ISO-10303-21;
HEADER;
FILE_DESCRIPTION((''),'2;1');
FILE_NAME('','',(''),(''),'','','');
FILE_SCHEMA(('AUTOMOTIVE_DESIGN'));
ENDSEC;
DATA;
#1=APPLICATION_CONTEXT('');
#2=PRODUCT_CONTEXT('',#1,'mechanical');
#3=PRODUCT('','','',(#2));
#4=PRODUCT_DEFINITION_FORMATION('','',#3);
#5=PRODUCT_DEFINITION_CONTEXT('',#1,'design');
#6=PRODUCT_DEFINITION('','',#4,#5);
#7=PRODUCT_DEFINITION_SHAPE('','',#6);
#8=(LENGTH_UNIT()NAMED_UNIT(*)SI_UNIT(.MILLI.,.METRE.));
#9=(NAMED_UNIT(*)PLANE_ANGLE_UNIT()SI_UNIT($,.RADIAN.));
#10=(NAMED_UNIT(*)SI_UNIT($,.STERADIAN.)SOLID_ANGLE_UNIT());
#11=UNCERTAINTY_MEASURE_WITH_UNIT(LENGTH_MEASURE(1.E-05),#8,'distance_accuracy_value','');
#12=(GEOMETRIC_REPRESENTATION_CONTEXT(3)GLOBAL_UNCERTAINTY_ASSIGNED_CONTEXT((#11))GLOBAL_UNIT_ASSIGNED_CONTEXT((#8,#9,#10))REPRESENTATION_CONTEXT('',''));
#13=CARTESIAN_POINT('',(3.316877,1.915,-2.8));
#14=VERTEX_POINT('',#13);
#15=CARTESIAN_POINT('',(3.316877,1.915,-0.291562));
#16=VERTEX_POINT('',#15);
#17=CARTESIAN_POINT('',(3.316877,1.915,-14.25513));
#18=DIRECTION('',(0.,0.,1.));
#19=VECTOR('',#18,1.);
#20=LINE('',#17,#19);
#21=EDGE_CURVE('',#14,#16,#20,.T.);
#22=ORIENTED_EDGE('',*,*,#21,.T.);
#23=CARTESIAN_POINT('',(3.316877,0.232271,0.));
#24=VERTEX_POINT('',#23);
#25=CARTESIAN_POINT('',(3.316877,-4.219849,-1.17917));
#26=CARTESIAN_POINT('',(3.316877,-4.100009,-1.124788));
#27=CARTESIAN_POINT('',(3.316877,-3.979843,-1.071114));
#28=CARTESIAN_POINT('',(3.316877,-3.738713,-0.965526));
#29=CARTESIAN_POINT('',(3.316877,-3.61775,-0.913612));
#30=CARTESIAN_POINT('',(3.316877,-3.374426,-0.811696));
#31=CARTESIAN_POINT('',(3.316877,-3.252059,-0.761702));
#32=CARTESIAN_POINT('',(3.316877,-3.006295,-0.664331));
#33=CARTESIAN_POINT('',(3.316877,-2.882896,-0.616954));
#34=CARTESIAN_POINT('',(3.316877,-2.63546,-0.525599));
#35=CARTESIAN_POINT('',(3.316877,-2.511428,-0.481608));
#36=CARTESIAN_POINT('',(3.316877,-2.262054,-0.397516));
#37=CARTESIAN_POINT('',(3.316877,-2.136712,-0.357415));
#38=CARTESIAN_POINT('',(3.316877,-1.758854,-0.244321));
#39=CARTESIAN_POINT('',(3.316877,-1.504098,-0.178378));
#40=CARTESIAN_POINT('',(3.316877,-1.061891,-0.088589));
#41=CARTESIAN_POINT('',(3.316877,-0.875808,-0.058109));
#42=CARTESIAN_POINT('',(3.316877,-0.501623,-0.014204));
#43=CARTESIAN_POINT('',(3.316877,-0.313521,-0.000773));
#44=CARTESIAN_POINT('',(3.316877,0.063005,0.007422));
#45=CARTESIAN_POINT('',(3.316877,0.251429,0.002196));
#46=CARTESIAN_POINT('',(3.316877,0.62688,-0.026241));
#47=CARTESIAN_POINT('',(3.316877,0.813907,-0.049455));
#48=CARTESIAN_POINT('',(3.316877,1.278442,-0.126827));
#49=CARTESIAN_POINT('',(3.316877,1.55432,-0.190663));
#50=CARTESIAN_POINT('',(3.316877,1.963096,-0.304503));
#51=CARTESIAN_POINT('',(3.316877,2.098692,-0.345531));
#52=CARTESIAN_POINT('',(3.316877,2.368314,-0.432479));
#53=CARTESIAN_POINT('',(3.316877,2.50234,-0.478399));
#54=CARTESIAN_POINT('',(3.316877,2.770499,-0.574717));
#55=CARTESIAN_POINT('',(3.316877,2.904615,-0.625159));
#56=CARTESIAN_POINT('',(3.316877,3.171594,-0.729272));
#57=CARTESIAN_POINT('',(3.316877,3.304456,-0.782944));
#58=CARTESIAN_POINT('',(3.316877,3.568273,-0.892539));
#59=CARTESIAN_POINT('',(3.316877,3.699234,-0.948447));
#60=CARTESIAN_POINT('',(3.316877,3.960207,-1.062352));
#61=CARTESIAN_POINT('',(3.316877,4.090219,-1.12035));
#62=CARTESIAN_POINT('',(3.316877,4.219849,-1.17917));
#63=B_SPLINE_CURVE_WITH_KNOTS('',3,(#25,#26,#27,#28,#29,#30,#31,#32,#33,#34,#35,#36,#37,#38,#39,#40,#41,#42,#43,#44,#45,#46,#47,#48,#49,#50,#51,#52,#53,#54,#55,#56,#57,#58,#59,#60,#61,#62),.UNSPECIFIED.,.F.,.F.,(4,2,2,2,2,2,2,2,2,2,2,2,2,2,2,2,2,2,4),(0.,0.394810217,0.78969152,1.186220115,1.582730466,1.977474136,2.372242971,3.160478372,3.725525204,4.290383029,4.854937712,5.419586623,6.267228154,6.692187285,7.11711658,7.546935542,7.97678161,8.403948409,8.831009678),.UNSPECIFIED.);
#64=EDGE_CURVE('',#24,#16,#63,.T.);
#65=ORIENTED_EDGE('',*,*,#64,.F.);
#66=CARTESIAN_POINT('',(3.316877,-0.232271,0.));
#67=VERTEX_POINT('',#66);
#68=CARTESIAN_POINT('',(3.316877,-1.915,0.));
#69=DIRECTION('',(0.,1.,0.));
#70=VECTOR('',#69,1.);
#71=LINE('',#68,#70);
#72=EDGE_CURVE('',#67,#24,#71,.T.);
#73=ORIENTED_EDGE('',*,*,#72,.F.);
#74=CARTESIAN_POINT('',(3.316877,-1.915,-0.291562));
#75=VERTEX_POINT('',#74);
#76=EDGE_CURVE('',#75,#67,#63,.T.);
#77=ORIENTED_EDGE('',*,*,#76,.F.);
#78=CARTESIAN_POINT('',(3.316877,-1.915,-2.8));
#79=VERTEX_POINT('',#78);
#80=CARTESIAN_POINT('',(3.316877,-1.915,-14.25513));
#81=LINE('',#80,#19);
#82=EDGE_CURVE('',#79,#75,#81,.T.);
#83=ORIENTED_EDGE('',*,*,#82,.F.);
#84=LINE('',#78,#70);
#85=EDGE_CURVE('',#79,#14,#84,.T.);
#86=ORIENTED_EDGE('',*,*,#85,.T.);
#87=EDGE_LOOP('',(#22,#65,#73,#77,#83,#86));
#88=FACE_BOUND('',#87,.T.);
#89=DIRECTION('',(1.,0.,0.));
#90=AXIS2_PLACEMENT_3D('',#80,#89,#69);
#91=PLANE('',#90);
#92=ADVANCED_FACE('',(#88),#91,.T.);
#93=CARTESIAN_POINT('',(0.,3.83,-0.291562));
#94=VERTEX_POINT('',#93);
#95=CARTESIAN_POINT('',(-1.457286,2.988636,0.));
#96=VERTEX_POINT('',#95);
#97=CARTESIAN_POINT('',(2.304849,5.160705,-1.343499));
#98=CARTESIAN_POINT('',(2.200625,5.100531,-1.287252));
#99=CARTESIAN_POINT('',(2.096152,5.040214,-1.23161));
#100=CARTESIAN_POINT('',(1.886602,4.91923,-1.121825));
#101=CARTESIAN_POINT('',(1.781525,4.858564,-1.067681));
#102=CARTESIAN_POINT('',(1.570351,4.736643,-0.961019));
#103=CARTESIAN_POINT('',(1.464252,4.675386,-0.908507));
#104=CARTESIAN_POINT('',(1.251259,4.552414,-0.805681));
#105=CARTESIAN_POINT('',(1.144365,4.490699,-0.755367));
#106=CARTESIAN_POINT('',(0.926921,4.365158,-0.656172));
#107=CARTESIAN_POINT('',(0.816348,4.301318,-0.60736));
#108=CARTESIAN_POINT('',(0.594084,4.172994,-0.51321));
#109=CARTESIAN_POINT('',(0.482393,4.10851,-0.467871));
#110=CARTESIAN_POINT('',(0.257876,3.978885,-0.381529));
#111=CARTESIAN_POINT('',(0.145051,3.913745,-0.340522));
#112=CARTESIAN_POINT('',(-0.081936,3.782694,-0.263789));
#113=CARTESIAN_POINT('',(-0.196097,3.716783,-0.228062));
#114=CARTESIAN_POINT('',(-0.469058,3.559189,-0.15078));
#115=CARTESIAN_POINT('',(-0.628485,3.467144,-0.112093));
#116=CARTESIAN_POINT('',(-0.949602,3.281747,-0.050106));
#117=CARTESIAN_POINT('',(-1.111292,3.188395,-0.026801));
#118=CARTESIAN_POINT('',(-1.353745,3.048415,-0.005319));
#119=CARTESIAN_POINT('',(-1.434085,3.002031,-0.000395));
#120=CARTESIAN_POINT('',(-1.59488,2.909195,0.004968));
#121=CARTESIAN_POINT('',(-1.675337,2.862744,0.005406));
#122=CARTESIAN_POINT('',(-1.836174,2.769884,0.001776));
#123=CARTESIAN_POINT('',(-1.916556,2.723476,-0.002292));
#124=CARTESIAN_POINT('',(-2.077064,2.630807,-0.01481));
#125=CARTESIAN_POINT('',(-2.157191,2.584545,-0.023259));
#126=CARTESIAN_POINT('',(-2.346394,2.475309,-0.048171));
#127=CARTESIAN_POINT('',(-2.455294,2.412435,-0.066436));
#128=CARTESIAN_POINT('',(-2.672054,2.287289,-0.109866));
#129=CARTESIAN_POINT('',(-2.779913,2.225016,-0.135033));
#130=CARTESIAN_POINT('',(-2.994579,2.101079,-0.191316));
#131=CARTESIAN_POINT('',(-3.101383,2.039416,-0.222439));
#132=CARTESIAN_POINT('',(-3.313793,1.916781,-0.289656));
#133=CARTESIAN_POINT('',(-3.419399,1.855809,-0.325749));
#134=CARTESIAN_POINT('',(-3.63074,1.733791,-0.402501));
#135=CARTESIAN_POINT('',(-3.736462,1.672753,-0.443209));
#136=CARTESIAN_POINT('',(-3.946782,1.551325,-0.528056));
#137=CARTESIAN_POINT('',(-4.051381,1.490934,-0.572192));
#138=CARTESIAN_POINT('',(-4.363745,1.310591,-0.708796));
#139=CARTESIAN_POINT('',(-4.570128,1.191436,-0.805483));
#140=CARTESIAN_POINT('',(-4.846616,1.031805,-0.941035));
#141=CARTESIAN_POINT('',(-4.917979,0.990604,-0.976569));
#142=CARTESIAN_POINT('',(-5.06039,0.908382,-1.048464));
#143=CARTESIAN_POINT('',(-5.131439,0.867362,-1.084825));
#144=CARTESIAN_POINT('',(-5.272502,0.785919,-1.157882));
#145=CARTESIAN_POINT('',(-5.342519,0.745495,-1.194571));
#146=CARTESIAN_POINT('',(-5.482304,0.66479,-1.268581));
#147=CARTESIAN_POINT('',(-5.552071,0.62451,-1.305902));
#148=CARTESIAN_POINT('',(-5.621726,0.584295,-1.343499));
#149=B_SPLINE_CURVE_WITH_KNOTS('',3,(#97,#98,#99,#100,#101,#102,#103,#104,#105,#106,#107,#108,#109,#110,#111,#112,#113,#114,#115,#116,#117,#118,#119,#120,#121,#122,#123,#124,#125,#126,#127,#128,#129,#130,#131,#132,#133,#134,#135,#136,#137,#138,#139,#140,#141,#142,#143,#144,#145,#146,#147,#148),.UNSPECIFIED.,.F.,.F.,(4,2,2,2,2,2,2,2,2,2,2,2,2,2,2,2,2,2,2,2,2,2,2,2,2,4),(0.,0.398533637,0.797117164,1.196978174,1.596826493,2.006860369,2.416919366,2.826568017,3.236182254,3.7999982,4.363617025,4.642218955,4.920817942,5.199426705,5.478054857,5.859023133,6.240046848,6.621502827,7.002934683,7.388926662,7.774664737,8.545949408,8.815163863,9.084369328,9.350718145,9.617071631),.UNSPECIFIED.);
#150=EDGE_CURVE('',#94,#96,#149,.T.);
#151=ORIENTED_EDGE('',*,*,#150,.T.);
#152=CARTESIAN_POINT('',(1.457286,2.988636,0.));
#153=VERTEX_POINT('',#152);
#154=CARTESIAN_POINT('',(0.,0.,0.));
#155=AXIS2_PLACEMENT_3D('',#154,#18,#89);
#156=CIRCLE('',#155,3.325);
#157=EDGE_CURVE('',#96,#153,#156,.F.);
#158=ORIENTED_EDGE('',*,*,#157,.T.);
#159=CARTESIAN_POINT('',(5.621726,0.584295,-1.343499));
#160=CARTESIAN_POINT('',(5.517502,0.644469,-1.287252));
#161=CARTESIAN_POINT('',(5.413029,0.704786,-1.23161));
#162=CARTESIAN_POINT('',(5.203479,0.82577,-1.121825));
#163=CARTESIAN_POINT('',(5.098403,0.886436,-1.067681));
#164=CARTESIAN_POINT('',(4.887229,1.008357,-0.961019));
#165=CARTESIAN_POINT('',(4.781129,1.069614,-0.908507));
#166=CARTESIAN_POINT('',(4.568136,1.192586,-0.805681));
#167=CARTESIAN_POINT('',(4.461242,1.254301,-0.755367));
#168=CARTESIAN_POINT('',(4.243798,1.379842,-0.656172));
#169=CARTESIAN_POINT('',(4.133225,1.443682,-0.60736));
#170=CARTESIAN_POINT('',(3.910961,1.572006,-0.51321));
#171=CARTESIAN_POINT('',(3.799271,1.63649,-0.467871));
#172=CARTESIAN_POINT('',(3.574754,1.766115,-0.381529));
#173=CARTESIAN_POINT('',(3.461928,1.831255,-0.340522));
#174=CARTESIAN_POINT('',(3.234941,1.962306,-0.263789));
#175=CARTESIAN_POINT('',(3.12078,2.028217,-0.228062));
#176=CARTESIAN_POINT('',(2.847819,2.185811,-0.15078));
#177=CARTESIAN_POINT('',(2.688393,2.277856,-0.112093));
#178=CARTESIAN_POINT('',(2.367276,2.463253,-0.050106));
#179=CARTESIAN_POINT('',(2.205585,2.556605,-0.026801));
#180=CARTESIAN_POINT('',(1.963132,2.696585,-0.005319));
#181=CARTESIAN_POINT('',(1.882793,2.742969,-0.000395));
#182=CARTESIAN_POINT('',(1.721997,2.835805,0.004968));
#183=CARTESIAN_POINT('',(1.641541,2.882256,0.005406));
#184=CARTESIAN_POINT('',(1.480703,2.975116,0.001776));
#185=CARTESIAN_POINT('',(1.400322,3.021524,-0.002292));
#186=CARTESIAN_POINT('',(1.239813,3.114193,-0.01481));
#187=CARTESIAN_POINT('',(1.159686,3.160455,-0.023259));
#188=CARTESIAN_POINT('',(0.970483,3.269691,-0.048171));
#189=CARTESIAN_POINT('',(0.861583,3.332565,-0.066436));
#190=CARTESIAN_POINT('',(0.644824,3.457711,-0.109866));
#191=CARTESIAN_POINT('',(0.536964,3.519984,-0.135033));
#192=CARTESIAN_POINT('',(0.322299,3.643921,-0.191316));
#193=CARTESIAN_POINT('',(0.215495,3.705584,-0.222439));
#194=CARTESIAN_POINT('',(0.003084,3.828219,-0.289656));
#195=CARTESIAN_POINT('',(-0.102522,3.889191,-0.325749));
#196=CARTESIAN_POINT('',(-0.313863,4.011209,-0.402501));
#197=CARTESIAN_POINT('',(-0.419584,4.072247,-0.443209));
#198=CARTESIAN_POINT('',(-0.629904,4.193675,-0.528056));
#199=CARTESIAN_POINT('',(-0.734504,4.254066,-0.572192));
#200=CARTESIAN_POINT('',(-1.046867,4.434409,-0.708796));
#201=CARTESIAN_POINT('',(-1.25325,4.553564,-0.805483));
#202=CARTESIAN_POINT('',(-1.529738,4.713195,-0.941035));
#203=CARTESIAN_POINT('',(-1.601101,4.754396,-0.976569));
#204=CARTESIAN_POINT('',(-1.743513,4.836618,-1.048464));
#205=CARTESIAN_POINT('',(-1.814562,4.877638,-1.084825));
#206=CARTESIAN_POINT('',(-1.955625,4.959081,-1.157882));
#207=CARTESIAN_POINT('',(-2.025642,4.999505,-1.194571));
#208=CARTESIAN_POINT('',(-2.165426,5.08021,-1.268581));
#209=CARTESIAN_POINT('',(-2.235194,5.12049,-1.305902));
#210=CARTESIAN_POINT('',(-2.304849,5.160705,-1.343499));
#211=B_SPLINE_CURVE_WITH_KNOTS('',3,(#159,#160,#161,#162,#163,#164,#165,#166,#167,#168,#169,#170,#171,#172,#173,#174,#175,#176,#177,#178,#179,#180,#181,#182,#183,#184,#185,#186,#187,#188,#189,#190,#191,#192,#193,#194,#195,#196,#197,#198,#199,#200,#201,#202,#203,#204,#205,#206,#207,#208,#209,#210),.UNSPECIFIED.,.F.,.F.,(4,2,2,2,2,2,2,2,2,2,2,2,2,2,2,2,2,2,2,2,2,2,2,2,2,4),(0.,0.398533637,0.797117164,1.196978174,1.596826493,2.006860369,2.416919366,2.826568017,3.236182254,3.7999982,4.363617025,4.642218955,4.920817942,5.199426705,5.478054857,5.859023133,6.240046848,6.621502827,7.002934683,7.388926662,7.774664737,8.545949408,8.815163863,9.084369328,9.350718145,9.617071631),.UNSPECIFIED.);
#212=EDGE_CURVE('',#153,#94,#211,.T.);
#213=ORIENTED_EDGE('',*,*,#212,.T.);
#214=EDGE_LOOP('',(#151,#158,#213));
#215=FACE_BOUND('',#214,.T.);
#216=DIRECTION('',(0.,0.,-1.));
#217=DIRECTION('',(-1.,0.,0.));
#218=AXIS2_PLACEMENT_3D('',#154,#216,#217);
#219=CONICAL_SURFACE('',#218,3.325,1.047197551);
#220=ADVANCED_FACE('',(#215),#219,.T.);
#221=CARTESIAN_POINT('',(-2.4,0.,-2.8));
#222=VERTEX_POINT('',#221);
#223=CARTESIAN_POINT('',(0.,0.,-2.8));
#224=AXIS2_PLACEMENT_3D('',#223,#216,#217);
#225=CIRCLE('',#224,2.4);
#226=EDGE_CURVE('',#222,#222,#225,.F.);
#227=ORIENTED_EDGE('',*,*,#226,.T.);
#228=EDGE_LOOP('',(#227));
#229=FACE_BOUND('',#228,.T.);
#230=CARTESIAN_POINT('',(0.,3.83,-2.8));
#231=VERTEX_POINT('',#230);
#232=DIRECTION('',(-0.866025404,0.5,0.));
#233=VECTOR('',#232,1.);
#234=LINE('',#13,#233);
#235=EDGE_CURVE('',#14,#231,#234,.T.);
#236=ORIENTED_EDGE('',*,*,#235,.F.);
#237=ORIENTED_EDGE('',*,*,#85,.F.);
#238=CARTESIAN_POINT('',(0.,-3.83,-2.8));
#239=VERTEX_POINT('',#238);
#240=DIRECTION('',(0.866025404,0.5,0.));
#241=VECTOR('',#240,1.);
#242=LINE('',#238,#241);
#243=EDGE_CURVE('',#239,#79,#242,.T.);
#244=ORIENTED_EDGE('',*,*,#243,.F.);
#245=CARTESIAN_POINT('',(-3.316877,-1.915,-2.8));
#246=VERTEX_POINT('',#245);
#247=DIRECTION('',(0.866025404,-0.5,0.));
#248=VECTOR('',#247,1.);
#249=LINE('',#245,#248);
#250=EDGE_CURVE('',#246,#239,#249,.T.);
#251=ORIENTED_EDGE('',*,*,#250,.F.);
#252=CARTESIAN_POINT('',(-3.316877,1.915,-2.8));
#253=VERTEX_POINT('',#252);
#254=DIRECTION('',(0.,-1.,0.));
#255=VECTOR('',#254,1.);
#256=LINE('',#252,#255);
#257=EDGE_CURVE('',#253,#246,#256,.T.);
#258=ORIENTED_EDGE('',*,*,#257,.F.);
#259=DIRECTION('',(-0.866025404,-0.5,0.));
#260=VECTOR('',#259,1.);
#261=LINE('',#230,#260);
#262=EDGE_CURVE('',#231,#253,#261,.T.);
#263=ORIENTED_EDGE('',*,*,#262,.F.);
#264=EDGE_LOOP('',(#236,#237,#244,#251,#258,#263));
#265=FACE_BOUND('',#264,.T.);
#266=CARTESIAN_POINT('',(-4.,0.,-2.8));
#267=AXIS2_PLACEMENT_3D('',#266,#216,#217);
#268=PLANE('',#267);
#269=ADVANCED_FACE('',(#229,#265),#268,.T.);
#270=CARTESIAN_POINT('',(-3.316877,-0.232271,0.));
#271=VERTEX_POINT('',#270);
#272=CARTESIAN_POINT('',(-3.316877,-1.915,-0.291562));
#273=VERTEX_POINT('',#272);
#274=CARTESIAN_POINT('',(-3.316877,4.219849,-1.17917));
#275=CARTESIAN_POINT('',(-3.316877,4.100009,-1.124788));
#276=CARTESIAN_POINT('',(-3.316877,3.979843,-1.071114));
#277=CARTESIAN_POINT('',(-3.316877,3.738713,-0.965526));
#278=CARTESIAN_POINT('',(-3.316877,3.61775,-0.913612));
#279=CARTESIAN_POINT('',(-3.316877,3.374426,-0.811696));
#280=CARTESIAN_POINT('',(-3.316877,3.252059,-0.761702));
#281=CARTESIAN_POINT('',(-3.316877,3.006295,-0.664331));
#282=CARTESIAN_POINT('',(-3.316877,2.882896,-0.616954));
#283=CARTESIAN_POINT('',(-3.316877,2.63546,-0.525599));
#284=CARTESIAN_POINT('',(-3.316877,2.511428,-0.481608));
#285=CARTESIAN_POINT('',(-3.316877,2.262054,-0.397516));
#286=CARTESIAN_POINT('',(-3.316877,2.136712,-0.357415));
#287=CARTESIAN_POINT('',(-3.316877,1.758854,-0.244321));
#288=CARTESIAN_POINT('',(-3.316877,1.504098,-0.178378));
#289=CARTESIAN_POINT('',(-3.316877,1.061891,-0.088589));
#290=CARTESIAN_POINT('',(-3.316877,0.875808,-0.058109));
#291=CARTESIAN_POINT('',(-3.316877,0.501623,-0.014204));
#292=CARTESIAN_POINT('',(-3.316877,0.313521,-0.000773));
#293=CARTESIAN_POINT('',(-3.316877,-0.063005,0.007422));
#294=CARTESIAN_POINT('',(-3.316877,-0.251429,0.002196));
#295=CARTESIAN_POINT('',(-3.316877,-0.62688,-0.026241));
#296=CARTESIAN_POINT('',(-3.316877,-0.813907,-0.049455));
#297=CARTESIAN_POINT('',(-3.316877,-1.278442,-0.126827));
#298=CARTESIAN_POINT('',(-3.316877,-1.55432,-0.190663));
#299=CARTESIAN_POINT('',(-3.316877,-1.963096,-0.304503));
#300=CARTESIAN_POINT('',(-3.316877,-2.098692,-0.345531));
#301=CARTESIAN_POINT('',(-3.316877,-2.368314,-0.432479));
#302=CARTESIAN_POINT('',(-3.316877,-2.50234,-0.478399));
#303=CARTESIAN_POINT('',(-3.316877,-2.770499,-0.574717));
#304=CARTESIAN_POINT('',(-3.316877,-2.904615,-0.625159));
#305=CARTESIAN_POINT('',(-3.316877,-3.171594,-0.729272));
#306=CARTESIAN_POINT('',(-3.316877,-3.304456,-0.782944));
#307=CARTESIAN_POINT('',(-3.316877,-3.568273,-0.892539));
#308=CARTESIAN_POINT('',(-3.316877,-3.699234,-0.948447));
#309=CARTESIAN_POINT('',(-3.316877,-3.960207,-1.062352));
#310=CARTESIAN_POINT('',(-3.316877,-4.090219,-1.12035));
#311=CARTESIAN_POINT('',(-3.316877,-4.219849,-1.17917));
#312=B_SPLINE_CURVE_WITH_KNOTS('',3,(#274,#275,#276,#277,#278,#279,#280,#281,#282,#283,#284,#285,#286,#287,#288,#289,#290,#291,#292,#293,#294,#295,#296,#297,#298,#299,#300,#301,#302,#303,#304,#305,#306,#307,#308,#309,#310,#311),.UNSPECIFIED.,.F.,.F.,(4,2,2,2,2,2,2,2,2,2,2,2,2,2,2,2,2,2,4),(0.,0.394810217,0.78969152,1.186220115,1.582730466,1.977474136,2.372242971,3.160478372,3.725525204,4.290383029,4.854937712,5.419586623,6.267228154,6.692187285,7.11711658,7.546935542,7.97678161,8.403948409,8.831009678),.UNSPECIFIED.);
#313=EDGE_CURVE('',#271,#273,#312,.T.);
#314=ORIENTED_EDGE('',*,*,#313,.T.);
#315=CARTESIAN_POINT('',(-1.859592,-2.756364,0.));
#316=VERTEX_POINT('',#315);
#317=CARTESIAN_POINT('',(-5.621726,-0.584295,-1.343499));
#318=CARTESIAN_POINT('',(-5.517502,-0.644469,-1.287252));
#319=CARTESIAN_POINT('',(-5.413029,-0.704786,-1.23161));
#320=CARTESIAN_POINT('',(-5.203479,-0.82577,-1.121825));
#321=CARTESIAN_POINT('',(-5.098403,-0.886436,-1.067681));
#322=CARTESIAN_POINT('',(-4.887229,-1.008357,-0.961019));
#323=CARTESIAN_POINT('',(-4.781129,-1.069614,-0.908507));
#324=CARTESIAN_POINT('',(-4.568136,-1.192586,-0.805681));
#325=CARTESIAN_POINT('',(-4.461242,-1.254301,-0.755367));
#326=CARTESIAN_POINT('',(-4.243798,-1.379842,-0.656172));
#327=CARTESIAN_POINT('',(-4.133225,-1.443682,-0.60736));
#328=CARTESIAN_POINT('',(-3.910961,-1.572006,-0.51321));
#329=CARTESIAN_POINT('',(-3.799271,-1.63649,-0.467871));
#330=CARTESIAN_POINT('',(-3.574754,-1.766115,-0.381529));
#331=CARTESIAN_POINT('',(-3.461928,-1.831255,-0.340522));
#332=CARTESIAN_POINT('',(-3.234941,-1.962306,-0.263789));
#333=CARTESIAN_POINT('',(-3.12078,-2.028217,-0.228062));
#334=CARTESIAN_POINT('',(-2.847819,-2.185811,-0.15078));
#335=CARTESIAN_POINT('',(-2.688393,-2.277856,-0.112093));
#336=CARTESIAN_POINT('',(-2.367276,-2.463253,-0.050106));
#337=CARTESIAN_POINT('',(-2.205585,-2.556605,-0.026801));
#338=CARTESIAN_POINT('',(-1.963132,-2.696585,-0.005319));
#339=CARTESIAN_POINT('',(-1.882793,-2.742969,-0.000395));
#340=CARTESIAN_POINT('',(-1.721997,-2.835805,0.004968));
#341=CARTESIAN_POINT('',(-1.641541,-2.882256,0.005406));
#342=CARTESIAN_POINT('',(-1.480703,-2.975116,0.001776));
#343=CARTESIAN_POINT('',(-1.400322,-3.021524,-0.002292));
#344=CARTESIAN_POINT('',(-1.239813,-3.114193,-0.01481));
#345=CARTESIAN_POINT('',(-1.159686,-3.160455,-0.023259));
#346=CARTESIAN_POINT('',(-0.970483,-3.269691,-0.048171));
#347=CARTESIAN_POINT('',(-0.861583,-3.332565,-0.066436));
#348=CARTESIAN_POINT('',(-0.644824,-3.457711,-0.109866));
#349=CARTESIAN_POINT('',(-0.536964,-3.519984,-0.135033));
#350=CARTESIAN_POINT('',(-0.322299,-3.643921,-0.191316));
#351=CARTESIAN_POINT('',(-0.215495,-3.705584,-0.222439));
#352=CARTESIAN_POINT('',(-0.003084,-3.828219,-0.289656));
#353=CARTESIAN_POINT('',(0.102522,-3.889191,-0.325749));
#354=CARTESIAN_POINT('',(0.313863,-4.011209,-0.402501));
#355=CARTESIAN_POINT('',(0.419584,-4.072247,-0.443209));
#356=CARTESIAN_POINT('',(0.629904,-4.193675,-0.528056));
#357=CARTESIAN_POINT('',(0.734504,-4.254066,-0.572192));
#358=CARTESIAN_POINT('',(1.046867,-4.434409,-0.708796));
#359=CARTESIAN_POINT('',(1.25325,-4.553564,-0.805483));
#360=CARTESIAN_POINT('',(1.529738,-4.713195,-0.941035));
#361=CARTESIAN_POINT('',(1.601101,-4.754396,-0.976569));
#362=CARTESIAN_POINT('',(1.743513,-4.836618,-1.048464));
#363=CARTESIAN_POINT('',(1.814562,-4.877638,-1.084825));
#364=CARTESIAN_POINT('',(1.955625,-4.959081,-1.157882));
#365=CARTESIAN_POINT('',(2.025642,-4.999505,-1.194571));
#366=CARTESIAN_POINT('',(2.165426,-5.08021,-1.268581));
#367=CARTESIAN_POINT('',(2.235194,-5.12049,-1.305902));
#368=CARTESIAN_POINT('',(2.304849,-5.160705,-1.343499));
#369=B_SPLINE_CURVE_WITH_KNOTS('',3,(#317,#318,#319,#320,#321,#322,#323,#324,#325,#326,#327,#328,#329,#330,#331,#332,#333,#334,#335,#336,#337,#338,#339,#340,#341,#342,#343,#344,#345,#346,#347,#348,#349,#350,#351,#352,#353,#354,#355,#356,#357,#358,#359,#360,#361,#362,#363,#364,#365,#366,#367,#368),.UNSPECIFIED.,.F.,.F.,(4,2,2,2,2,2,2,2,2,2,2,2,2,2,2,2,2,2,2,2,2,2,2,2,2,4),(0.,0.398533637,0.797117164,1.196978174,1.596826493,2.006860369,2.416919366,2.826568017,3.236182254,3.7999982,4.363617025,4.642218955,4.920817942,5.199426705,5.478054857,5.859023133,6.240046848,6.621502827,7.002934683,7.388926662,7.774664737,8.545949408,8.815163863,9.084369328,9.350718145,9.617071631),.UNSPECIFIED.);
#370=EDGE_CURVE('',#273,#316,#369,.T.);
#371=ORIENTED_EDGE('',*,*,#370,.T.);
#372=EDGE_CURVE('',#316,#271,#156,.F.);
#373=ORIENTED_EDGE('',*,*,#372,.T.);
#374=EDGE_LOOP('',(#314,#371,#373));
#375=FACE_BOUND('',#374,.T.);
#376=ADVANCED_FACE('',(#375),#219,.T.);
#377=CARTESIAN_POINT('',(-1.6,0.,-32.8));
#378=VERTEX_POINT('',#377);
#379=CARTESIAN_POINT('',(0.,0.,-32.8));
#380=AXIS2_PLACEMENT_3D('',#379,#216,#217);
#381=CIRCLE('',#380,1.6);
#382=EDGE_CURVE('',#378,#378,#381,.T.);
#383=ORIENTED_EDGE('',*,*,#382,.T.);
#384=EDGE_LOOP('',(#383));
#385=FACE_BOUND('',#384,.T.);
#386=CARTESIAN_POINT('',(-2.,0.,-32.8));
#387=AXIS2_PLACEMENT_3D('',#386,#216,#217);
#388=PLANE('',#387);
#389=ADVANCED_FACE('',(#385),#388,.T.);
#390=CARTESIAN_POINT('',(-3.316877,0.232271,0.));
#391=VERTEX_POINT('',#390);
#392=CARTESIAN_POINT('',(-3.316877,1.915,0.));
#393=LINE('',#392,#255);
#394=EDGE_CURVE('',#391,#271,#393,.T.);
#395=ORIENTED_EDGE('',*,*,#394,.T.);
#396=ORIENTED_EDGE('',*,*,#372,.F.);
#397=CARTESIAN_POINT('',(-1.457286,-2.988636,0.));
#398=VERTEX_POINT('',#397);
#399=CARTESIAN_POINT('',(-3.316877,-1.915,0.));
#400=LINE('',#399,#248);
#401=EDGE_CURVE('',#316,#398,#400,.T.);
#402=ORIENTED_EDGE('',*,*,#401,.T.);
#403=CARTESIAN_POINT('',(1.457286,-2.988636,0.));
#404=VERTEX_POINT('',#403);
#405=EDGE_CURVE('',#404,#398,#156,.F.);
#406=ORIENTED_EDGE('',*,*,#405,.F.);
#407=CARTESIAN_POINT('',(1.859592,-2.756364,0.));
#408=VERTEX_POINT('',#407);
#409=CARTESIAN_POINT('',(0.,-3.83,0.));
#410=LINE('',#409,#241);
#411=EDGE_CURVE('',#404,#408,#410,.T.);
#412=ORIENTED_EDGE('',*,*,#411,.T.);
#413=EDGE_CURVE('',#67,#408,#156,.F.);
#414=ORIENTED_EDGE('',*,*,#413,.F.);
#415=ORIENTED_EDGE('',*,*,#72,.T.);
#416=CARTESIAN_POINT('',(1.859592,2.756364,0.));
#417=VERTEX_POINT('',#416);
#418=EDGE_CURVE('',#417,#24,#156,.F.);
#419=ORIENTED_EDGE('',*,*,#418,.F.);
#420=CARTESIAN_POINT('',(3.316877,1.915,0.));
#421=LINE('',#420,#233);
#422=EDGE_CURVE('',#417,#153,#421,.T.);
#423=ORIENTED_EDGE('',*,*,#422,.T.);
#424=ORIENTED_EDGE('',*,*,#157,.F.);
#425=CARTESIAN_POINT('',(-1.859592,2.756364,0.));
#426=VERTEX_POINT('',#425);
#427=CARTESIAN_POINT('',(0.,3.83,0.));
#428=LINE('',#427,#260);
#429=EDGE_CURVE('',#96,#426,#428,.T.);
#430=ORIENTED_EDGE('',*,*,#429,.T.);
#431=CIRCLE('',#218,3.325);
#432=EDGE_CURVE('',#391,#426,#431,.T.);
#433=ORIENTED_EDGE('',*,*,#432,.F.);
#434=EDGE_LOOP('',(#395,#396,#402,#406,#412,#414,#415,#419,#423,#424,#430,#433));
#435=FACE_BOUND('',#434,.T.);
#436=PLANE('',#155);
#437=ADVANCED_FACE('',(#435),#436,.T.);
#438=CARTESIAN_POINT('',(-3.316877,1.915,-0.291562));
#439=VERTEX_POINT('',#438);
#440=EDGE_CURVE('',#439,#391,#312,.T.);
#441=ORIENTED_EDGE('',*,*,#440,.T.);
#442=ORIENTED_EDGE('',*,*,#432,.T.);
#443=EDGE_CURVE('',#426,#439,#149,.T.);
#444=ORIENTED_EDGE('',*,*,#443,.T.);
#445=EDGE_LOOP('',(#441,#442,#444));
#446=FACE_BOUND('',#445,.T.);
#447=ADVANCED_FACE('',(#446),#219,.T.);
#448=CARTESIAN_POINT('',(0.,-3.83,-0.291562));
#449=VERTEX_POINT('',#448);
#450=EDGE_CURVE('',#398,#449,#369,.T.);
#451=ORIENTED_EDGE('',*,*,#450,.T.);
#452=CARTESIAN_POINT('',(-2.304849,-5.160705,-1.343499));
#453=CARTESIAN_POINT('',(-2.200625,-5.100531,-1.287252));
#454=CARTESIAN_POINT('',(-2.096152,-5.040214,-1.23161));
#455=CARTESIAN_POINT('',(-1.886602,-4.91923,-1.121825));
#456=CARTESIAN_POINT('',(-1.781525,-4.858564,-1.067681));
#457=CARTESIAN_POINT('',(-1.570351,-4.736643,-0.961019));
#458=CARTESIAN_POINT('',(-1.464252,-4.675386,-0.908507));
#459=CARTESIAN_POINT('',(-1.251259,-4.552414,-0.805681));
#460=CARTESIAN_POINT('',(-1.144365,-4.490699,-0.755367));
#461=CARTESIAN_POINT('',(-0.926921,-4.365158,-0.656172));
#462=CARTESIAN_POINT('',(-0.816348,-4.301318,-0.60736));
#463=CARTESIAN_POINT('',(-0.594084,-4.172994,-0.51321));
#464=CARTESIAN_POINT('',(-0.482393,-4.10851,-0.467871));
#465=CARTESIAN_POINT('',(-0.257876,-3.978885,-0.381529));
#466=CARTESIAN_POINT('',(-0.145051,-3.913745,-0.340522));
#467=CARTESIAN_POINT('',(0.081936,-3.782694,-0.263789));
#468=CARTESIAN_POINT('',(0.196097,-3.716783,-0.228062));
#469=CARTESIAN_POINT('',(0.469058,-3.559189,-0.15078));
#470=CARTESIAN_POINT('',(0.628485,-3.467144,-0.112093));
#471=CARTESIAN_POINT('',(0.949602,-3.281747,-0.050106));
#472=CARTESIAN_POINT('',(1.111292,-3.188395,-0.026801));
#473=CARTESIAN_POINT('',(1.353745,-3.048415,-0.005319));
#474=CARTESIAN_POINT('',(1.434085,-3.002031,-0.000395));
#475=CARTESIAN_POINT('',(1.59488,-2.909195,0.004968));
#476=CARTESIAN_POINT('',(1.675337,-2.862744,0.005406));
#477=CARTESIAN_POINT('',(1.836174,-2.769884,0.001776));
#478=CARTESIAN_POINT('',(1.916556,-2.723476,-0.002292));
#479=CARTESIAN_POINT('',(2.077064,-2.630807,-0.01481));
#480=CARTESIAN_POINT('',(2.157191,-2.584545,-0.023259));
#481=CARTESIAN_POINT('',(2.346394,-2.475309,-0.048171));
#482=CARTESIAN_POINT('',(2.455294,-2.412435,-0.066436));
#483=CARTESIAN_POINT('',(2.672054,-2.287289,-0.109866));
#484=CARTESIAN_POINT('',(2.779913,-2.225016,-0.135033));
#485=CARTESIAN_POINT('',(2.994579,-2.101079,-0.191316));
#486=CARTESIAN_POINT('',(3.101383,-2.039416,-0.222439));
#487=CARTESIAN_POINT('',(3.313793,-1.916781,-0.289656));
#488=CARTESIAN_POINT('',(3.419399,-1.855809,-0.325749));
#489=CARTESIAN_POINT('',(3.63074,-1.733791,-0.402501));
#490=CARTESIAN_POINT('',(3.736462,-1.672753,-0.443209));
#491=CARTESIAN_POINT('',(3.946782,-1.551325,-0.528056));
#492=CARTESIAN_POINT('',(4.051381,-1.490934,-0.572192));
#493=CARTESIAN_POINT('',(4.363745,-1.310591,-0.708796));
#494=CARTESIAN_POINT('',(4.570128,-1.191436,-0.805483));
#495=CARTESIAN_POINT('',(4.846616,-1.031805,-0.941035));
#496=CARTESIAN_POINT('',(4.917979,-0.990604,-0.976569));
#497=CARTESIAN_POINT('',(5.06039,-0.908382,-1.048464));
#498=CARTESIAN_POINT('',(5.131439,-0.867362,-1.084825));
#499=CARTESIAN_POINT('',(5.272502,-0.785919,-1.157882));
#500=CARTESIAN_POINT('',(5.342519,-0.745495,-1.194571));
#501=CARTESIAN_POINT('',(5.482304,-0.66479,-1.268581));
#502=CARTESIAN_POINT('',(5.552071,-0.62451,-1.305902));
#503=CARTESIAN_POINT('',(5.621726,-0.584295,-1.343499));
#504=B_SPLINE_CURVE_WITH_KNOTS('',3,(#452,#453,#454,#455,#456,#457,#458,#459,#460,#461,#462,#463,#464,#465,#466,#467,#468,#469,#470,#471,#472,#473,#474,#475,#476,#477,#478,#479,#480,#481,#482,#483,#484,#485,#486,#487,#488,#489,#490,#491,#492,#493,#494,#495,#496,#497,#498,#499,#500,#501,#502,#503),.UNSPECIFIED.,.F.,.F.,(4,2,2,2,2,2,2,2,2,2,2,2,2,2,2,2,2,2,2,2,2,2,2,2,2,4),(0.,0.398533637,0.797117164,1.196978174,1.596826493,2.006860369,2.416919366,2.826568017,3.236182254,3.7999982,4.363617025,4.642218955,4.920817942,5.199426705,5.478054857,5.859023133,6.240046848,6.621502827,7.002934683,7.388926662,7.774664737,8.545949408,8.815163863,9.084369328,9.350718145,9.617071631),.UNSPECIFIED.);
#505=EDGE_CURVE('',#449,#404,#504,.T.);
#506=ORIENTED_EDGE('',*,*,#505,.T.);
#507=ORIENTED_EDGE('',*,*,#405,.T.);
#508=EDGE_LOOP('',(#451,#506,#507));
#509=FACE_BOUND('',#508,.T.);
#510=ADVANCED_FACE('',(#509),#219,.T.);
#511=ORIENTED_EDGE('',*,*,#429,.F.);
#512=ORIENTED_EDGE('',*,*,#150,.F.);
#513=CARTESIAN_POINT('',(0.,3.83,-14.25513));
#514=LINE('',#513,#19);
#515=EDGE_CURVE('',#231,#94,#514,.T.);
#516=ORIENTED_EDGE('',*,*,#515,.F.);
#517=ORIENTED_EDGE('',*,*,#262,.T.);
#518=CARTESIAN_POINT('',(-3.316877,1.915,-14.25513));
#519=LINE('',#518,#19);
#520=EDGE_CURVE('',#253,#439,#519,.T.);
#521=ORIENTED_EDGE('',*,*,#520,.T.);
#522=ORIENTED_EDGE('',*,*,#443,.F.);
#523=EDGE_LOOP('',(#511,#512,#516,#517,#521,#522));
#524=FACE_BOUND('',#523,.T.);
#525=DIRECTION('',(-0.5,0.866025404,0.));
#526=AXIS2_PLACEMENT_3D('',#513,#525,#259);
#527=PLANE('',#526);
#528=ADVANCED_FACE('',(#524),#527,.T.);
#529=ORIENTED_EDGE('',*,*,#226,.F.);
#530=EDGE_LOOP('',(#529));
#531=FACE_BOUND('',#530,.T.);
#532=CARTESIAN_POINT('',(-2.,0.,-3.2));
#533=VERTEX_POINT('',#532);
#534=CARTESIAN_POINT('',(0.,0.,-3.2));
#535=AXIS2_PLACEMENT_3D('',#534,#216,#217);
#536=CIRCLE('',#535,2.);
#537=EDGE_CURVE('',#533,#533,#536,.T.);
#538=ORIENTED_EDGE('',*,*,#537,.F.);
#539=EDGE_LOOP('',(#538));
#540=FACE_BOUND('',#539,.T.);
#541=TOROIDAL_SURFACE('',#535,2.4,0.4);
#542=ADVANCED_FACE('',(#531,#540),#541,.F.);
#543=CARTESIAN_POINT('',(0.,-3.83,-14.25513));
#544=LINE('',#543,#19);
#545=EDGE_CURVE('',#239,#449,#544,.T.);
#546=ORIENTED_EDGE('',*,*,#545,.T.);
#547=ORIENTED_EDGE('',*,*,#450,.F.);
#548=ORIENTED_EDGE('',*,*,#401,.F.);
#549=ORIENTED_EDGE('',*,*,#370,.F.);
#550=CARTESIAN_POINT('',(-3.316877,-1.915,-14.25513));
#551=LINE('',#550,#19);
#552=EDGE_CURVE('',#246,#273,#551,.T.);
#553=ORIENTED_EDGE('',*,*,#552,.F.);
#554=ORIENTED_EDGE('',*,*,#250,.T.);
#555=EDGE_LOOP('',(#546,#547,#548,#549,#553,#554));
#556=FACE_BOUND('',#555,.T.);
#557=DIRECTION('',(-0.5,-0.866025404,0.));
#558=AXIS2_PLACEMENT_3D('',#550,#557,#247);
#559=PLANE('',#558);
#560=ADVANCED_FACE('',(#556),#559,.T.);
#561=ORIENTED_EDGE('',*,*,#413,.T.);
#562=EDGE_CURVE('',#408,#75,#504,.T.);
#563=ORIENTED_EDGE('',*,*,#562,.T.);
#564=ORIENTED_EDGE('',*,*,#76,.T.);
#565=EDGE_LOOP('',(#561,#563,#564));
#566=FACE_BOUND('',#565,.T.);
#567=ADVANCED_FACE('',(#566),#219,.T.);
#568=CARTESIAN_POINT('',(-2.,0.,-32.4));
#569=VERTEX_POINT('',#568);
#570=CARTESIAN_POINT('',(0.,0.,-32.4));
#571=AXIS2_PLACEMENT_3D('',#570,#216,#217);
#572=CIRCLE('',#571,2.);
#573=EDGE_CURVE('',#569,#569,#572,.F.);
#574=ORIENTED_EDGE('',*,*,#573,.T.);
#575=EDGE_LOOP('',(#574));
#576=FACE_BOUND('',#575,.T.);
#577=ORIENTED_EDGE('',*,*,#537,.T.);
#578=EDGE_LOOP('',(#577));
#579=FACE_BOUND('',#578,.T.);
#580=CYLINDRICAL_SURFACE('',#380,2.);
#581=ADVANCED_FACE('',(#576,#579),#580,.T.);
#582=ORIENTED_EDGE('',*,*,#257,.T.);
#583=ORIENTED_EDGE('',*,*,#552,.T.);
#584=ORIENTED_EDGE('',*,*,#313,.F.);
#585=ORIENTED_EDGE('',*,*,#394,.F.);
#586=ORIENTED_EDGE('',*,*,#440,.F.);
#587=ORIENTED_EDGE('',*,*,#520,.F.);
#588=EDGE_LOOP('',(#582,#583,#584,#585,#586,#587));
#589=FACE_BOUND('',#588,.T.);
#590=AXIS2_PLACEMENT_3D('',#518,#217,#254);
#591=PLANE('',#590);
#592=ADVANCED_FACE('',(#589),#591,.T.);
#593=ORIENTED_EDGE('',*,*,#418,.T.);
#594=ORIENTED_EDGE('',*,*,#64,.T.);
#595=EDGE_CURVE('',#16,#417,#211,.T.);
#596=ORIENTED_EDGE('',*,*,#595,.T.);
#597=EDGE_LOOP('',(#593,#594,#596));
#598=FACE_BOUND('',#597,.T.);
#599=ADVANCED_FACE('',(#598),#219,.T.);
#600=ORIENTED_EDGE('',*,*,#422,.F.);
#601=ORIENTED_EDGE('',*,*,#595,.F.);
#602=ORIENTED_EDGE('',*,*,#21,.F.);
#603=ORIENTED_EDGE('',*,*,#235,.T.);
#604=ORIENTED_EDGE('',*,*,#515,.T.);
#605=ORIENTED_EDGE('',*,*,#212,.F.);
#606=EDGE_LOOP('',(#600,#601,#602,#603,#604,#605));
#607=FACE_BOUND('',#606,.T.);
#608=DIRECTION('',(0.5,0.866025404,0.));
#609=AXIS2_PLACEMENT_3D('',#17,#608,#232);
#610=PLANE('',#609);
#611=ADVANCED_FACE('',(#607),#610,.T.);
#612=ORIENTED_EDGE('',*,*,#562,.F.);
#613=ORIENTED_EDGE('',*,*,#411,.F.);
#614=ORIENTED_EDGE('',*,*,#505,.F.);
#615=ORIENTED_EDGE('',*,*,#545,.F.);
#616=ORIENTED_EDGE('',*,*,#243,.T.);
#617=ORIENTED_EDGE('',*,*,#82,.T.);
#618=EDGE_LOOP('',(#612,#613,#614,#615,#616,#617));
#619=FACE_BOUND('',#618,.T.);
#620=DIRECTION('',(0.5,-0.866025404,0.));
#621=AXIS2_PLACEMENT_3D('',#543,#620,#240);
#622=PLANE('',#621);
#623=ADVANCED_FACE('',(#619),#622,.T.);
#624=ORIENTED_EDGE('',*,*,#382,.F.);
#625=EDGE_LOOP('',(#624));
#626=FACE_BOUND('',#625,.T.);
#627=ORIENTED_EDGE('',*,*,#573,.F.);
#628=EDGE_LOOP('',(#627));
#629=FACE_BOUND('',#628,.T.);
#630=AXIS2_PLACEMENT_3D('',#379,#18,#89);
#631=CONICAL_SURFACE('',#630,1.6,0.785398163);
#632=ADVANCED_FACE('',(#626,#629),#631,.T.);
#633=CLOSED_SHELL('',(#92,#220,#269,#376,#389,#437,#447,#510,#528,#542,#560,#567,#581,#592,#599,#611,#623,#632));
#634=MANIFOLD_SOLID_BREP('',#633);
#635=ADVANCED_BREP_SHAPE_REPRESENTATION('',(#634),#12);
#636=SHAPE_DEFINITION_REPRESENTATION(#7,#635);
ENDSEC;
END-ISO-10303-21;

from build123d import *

# Parameters (mm, degrees)
SKETCH_2_OUTSIDE_W  = 16.94
SKETCH_2_OUTSIDE_H  = 16.94
CUT_EXTRUDE_1_DEPTH = 2.8
CHAMFER_1_SIZE      = 0.4
FILLET_1_R          = 0.4


with BuildPart() as part:
    # Эскиз1 → Повернуть1 (revolve)
    with BuildSketch(Plane(origin=(0, 0, 0), x_dir=(1, 0, 0), z_dir=(0, 1, 0))):
        Polygon((0, 0), (-4, 0), (-4, 2.8), (-2, 2.8), (-2, 32.8), (0, 32.8), align=None)
    revolve(axis=Axis((0, 0, -32.8), (0, 0, 1)))

    # Эскиз2 outside → Вырез-Вытянуть1 (cut)
    with BuildSketch(Plane.XY):
        Rectangle(SKETCH_2_OUTSIDE_W, SKETCH_2_OUTSIDE_H)
        Polygon((0, 3.83), (-3.316877296, 1.915), (-3.316877296, -1.915), (0, -3.83), (3.316877296, -1.915), (3.316877296, 1.915), align=None, mode=Mode.SUBTRACT)
    extrude(amount=-CUT_EXTRUDE_1_DEPTH, mode=Mode.SUBTRACT)

    # Эскиз3 → Вырез-Повернуть1 (revolve, cut)
    with BuildSketch(Plane(origin=(0, 0, 0), x_dir=(0, 0, -1), z_dir=(1, 0, 0))):
        Polygon((0, 3.83), (0.291561886, 3.83), (0, 3.325), align=None)
    revolve(axis=Axis((0, 0, 0), (0, 0, 1)), mode=Mode.SUBTRACT)

    # Фаска1
    chamfer_1_edges = [part.edges().sort_by_distance(p)[0] for p in [
        (2, 0, -32.8),
    ]]
    chamfer(chamfer_1_edges, length=CHAMFER_1_SIZE)

    # Скругление1
    fillet_1_edges = [part.edges().sort_by_distance(p)[0] for p in [
        (2, 0, -2.8),
    ]]
    fillet(fillet_1_edges, radius=FILLET_1_R)


solid = part.part
